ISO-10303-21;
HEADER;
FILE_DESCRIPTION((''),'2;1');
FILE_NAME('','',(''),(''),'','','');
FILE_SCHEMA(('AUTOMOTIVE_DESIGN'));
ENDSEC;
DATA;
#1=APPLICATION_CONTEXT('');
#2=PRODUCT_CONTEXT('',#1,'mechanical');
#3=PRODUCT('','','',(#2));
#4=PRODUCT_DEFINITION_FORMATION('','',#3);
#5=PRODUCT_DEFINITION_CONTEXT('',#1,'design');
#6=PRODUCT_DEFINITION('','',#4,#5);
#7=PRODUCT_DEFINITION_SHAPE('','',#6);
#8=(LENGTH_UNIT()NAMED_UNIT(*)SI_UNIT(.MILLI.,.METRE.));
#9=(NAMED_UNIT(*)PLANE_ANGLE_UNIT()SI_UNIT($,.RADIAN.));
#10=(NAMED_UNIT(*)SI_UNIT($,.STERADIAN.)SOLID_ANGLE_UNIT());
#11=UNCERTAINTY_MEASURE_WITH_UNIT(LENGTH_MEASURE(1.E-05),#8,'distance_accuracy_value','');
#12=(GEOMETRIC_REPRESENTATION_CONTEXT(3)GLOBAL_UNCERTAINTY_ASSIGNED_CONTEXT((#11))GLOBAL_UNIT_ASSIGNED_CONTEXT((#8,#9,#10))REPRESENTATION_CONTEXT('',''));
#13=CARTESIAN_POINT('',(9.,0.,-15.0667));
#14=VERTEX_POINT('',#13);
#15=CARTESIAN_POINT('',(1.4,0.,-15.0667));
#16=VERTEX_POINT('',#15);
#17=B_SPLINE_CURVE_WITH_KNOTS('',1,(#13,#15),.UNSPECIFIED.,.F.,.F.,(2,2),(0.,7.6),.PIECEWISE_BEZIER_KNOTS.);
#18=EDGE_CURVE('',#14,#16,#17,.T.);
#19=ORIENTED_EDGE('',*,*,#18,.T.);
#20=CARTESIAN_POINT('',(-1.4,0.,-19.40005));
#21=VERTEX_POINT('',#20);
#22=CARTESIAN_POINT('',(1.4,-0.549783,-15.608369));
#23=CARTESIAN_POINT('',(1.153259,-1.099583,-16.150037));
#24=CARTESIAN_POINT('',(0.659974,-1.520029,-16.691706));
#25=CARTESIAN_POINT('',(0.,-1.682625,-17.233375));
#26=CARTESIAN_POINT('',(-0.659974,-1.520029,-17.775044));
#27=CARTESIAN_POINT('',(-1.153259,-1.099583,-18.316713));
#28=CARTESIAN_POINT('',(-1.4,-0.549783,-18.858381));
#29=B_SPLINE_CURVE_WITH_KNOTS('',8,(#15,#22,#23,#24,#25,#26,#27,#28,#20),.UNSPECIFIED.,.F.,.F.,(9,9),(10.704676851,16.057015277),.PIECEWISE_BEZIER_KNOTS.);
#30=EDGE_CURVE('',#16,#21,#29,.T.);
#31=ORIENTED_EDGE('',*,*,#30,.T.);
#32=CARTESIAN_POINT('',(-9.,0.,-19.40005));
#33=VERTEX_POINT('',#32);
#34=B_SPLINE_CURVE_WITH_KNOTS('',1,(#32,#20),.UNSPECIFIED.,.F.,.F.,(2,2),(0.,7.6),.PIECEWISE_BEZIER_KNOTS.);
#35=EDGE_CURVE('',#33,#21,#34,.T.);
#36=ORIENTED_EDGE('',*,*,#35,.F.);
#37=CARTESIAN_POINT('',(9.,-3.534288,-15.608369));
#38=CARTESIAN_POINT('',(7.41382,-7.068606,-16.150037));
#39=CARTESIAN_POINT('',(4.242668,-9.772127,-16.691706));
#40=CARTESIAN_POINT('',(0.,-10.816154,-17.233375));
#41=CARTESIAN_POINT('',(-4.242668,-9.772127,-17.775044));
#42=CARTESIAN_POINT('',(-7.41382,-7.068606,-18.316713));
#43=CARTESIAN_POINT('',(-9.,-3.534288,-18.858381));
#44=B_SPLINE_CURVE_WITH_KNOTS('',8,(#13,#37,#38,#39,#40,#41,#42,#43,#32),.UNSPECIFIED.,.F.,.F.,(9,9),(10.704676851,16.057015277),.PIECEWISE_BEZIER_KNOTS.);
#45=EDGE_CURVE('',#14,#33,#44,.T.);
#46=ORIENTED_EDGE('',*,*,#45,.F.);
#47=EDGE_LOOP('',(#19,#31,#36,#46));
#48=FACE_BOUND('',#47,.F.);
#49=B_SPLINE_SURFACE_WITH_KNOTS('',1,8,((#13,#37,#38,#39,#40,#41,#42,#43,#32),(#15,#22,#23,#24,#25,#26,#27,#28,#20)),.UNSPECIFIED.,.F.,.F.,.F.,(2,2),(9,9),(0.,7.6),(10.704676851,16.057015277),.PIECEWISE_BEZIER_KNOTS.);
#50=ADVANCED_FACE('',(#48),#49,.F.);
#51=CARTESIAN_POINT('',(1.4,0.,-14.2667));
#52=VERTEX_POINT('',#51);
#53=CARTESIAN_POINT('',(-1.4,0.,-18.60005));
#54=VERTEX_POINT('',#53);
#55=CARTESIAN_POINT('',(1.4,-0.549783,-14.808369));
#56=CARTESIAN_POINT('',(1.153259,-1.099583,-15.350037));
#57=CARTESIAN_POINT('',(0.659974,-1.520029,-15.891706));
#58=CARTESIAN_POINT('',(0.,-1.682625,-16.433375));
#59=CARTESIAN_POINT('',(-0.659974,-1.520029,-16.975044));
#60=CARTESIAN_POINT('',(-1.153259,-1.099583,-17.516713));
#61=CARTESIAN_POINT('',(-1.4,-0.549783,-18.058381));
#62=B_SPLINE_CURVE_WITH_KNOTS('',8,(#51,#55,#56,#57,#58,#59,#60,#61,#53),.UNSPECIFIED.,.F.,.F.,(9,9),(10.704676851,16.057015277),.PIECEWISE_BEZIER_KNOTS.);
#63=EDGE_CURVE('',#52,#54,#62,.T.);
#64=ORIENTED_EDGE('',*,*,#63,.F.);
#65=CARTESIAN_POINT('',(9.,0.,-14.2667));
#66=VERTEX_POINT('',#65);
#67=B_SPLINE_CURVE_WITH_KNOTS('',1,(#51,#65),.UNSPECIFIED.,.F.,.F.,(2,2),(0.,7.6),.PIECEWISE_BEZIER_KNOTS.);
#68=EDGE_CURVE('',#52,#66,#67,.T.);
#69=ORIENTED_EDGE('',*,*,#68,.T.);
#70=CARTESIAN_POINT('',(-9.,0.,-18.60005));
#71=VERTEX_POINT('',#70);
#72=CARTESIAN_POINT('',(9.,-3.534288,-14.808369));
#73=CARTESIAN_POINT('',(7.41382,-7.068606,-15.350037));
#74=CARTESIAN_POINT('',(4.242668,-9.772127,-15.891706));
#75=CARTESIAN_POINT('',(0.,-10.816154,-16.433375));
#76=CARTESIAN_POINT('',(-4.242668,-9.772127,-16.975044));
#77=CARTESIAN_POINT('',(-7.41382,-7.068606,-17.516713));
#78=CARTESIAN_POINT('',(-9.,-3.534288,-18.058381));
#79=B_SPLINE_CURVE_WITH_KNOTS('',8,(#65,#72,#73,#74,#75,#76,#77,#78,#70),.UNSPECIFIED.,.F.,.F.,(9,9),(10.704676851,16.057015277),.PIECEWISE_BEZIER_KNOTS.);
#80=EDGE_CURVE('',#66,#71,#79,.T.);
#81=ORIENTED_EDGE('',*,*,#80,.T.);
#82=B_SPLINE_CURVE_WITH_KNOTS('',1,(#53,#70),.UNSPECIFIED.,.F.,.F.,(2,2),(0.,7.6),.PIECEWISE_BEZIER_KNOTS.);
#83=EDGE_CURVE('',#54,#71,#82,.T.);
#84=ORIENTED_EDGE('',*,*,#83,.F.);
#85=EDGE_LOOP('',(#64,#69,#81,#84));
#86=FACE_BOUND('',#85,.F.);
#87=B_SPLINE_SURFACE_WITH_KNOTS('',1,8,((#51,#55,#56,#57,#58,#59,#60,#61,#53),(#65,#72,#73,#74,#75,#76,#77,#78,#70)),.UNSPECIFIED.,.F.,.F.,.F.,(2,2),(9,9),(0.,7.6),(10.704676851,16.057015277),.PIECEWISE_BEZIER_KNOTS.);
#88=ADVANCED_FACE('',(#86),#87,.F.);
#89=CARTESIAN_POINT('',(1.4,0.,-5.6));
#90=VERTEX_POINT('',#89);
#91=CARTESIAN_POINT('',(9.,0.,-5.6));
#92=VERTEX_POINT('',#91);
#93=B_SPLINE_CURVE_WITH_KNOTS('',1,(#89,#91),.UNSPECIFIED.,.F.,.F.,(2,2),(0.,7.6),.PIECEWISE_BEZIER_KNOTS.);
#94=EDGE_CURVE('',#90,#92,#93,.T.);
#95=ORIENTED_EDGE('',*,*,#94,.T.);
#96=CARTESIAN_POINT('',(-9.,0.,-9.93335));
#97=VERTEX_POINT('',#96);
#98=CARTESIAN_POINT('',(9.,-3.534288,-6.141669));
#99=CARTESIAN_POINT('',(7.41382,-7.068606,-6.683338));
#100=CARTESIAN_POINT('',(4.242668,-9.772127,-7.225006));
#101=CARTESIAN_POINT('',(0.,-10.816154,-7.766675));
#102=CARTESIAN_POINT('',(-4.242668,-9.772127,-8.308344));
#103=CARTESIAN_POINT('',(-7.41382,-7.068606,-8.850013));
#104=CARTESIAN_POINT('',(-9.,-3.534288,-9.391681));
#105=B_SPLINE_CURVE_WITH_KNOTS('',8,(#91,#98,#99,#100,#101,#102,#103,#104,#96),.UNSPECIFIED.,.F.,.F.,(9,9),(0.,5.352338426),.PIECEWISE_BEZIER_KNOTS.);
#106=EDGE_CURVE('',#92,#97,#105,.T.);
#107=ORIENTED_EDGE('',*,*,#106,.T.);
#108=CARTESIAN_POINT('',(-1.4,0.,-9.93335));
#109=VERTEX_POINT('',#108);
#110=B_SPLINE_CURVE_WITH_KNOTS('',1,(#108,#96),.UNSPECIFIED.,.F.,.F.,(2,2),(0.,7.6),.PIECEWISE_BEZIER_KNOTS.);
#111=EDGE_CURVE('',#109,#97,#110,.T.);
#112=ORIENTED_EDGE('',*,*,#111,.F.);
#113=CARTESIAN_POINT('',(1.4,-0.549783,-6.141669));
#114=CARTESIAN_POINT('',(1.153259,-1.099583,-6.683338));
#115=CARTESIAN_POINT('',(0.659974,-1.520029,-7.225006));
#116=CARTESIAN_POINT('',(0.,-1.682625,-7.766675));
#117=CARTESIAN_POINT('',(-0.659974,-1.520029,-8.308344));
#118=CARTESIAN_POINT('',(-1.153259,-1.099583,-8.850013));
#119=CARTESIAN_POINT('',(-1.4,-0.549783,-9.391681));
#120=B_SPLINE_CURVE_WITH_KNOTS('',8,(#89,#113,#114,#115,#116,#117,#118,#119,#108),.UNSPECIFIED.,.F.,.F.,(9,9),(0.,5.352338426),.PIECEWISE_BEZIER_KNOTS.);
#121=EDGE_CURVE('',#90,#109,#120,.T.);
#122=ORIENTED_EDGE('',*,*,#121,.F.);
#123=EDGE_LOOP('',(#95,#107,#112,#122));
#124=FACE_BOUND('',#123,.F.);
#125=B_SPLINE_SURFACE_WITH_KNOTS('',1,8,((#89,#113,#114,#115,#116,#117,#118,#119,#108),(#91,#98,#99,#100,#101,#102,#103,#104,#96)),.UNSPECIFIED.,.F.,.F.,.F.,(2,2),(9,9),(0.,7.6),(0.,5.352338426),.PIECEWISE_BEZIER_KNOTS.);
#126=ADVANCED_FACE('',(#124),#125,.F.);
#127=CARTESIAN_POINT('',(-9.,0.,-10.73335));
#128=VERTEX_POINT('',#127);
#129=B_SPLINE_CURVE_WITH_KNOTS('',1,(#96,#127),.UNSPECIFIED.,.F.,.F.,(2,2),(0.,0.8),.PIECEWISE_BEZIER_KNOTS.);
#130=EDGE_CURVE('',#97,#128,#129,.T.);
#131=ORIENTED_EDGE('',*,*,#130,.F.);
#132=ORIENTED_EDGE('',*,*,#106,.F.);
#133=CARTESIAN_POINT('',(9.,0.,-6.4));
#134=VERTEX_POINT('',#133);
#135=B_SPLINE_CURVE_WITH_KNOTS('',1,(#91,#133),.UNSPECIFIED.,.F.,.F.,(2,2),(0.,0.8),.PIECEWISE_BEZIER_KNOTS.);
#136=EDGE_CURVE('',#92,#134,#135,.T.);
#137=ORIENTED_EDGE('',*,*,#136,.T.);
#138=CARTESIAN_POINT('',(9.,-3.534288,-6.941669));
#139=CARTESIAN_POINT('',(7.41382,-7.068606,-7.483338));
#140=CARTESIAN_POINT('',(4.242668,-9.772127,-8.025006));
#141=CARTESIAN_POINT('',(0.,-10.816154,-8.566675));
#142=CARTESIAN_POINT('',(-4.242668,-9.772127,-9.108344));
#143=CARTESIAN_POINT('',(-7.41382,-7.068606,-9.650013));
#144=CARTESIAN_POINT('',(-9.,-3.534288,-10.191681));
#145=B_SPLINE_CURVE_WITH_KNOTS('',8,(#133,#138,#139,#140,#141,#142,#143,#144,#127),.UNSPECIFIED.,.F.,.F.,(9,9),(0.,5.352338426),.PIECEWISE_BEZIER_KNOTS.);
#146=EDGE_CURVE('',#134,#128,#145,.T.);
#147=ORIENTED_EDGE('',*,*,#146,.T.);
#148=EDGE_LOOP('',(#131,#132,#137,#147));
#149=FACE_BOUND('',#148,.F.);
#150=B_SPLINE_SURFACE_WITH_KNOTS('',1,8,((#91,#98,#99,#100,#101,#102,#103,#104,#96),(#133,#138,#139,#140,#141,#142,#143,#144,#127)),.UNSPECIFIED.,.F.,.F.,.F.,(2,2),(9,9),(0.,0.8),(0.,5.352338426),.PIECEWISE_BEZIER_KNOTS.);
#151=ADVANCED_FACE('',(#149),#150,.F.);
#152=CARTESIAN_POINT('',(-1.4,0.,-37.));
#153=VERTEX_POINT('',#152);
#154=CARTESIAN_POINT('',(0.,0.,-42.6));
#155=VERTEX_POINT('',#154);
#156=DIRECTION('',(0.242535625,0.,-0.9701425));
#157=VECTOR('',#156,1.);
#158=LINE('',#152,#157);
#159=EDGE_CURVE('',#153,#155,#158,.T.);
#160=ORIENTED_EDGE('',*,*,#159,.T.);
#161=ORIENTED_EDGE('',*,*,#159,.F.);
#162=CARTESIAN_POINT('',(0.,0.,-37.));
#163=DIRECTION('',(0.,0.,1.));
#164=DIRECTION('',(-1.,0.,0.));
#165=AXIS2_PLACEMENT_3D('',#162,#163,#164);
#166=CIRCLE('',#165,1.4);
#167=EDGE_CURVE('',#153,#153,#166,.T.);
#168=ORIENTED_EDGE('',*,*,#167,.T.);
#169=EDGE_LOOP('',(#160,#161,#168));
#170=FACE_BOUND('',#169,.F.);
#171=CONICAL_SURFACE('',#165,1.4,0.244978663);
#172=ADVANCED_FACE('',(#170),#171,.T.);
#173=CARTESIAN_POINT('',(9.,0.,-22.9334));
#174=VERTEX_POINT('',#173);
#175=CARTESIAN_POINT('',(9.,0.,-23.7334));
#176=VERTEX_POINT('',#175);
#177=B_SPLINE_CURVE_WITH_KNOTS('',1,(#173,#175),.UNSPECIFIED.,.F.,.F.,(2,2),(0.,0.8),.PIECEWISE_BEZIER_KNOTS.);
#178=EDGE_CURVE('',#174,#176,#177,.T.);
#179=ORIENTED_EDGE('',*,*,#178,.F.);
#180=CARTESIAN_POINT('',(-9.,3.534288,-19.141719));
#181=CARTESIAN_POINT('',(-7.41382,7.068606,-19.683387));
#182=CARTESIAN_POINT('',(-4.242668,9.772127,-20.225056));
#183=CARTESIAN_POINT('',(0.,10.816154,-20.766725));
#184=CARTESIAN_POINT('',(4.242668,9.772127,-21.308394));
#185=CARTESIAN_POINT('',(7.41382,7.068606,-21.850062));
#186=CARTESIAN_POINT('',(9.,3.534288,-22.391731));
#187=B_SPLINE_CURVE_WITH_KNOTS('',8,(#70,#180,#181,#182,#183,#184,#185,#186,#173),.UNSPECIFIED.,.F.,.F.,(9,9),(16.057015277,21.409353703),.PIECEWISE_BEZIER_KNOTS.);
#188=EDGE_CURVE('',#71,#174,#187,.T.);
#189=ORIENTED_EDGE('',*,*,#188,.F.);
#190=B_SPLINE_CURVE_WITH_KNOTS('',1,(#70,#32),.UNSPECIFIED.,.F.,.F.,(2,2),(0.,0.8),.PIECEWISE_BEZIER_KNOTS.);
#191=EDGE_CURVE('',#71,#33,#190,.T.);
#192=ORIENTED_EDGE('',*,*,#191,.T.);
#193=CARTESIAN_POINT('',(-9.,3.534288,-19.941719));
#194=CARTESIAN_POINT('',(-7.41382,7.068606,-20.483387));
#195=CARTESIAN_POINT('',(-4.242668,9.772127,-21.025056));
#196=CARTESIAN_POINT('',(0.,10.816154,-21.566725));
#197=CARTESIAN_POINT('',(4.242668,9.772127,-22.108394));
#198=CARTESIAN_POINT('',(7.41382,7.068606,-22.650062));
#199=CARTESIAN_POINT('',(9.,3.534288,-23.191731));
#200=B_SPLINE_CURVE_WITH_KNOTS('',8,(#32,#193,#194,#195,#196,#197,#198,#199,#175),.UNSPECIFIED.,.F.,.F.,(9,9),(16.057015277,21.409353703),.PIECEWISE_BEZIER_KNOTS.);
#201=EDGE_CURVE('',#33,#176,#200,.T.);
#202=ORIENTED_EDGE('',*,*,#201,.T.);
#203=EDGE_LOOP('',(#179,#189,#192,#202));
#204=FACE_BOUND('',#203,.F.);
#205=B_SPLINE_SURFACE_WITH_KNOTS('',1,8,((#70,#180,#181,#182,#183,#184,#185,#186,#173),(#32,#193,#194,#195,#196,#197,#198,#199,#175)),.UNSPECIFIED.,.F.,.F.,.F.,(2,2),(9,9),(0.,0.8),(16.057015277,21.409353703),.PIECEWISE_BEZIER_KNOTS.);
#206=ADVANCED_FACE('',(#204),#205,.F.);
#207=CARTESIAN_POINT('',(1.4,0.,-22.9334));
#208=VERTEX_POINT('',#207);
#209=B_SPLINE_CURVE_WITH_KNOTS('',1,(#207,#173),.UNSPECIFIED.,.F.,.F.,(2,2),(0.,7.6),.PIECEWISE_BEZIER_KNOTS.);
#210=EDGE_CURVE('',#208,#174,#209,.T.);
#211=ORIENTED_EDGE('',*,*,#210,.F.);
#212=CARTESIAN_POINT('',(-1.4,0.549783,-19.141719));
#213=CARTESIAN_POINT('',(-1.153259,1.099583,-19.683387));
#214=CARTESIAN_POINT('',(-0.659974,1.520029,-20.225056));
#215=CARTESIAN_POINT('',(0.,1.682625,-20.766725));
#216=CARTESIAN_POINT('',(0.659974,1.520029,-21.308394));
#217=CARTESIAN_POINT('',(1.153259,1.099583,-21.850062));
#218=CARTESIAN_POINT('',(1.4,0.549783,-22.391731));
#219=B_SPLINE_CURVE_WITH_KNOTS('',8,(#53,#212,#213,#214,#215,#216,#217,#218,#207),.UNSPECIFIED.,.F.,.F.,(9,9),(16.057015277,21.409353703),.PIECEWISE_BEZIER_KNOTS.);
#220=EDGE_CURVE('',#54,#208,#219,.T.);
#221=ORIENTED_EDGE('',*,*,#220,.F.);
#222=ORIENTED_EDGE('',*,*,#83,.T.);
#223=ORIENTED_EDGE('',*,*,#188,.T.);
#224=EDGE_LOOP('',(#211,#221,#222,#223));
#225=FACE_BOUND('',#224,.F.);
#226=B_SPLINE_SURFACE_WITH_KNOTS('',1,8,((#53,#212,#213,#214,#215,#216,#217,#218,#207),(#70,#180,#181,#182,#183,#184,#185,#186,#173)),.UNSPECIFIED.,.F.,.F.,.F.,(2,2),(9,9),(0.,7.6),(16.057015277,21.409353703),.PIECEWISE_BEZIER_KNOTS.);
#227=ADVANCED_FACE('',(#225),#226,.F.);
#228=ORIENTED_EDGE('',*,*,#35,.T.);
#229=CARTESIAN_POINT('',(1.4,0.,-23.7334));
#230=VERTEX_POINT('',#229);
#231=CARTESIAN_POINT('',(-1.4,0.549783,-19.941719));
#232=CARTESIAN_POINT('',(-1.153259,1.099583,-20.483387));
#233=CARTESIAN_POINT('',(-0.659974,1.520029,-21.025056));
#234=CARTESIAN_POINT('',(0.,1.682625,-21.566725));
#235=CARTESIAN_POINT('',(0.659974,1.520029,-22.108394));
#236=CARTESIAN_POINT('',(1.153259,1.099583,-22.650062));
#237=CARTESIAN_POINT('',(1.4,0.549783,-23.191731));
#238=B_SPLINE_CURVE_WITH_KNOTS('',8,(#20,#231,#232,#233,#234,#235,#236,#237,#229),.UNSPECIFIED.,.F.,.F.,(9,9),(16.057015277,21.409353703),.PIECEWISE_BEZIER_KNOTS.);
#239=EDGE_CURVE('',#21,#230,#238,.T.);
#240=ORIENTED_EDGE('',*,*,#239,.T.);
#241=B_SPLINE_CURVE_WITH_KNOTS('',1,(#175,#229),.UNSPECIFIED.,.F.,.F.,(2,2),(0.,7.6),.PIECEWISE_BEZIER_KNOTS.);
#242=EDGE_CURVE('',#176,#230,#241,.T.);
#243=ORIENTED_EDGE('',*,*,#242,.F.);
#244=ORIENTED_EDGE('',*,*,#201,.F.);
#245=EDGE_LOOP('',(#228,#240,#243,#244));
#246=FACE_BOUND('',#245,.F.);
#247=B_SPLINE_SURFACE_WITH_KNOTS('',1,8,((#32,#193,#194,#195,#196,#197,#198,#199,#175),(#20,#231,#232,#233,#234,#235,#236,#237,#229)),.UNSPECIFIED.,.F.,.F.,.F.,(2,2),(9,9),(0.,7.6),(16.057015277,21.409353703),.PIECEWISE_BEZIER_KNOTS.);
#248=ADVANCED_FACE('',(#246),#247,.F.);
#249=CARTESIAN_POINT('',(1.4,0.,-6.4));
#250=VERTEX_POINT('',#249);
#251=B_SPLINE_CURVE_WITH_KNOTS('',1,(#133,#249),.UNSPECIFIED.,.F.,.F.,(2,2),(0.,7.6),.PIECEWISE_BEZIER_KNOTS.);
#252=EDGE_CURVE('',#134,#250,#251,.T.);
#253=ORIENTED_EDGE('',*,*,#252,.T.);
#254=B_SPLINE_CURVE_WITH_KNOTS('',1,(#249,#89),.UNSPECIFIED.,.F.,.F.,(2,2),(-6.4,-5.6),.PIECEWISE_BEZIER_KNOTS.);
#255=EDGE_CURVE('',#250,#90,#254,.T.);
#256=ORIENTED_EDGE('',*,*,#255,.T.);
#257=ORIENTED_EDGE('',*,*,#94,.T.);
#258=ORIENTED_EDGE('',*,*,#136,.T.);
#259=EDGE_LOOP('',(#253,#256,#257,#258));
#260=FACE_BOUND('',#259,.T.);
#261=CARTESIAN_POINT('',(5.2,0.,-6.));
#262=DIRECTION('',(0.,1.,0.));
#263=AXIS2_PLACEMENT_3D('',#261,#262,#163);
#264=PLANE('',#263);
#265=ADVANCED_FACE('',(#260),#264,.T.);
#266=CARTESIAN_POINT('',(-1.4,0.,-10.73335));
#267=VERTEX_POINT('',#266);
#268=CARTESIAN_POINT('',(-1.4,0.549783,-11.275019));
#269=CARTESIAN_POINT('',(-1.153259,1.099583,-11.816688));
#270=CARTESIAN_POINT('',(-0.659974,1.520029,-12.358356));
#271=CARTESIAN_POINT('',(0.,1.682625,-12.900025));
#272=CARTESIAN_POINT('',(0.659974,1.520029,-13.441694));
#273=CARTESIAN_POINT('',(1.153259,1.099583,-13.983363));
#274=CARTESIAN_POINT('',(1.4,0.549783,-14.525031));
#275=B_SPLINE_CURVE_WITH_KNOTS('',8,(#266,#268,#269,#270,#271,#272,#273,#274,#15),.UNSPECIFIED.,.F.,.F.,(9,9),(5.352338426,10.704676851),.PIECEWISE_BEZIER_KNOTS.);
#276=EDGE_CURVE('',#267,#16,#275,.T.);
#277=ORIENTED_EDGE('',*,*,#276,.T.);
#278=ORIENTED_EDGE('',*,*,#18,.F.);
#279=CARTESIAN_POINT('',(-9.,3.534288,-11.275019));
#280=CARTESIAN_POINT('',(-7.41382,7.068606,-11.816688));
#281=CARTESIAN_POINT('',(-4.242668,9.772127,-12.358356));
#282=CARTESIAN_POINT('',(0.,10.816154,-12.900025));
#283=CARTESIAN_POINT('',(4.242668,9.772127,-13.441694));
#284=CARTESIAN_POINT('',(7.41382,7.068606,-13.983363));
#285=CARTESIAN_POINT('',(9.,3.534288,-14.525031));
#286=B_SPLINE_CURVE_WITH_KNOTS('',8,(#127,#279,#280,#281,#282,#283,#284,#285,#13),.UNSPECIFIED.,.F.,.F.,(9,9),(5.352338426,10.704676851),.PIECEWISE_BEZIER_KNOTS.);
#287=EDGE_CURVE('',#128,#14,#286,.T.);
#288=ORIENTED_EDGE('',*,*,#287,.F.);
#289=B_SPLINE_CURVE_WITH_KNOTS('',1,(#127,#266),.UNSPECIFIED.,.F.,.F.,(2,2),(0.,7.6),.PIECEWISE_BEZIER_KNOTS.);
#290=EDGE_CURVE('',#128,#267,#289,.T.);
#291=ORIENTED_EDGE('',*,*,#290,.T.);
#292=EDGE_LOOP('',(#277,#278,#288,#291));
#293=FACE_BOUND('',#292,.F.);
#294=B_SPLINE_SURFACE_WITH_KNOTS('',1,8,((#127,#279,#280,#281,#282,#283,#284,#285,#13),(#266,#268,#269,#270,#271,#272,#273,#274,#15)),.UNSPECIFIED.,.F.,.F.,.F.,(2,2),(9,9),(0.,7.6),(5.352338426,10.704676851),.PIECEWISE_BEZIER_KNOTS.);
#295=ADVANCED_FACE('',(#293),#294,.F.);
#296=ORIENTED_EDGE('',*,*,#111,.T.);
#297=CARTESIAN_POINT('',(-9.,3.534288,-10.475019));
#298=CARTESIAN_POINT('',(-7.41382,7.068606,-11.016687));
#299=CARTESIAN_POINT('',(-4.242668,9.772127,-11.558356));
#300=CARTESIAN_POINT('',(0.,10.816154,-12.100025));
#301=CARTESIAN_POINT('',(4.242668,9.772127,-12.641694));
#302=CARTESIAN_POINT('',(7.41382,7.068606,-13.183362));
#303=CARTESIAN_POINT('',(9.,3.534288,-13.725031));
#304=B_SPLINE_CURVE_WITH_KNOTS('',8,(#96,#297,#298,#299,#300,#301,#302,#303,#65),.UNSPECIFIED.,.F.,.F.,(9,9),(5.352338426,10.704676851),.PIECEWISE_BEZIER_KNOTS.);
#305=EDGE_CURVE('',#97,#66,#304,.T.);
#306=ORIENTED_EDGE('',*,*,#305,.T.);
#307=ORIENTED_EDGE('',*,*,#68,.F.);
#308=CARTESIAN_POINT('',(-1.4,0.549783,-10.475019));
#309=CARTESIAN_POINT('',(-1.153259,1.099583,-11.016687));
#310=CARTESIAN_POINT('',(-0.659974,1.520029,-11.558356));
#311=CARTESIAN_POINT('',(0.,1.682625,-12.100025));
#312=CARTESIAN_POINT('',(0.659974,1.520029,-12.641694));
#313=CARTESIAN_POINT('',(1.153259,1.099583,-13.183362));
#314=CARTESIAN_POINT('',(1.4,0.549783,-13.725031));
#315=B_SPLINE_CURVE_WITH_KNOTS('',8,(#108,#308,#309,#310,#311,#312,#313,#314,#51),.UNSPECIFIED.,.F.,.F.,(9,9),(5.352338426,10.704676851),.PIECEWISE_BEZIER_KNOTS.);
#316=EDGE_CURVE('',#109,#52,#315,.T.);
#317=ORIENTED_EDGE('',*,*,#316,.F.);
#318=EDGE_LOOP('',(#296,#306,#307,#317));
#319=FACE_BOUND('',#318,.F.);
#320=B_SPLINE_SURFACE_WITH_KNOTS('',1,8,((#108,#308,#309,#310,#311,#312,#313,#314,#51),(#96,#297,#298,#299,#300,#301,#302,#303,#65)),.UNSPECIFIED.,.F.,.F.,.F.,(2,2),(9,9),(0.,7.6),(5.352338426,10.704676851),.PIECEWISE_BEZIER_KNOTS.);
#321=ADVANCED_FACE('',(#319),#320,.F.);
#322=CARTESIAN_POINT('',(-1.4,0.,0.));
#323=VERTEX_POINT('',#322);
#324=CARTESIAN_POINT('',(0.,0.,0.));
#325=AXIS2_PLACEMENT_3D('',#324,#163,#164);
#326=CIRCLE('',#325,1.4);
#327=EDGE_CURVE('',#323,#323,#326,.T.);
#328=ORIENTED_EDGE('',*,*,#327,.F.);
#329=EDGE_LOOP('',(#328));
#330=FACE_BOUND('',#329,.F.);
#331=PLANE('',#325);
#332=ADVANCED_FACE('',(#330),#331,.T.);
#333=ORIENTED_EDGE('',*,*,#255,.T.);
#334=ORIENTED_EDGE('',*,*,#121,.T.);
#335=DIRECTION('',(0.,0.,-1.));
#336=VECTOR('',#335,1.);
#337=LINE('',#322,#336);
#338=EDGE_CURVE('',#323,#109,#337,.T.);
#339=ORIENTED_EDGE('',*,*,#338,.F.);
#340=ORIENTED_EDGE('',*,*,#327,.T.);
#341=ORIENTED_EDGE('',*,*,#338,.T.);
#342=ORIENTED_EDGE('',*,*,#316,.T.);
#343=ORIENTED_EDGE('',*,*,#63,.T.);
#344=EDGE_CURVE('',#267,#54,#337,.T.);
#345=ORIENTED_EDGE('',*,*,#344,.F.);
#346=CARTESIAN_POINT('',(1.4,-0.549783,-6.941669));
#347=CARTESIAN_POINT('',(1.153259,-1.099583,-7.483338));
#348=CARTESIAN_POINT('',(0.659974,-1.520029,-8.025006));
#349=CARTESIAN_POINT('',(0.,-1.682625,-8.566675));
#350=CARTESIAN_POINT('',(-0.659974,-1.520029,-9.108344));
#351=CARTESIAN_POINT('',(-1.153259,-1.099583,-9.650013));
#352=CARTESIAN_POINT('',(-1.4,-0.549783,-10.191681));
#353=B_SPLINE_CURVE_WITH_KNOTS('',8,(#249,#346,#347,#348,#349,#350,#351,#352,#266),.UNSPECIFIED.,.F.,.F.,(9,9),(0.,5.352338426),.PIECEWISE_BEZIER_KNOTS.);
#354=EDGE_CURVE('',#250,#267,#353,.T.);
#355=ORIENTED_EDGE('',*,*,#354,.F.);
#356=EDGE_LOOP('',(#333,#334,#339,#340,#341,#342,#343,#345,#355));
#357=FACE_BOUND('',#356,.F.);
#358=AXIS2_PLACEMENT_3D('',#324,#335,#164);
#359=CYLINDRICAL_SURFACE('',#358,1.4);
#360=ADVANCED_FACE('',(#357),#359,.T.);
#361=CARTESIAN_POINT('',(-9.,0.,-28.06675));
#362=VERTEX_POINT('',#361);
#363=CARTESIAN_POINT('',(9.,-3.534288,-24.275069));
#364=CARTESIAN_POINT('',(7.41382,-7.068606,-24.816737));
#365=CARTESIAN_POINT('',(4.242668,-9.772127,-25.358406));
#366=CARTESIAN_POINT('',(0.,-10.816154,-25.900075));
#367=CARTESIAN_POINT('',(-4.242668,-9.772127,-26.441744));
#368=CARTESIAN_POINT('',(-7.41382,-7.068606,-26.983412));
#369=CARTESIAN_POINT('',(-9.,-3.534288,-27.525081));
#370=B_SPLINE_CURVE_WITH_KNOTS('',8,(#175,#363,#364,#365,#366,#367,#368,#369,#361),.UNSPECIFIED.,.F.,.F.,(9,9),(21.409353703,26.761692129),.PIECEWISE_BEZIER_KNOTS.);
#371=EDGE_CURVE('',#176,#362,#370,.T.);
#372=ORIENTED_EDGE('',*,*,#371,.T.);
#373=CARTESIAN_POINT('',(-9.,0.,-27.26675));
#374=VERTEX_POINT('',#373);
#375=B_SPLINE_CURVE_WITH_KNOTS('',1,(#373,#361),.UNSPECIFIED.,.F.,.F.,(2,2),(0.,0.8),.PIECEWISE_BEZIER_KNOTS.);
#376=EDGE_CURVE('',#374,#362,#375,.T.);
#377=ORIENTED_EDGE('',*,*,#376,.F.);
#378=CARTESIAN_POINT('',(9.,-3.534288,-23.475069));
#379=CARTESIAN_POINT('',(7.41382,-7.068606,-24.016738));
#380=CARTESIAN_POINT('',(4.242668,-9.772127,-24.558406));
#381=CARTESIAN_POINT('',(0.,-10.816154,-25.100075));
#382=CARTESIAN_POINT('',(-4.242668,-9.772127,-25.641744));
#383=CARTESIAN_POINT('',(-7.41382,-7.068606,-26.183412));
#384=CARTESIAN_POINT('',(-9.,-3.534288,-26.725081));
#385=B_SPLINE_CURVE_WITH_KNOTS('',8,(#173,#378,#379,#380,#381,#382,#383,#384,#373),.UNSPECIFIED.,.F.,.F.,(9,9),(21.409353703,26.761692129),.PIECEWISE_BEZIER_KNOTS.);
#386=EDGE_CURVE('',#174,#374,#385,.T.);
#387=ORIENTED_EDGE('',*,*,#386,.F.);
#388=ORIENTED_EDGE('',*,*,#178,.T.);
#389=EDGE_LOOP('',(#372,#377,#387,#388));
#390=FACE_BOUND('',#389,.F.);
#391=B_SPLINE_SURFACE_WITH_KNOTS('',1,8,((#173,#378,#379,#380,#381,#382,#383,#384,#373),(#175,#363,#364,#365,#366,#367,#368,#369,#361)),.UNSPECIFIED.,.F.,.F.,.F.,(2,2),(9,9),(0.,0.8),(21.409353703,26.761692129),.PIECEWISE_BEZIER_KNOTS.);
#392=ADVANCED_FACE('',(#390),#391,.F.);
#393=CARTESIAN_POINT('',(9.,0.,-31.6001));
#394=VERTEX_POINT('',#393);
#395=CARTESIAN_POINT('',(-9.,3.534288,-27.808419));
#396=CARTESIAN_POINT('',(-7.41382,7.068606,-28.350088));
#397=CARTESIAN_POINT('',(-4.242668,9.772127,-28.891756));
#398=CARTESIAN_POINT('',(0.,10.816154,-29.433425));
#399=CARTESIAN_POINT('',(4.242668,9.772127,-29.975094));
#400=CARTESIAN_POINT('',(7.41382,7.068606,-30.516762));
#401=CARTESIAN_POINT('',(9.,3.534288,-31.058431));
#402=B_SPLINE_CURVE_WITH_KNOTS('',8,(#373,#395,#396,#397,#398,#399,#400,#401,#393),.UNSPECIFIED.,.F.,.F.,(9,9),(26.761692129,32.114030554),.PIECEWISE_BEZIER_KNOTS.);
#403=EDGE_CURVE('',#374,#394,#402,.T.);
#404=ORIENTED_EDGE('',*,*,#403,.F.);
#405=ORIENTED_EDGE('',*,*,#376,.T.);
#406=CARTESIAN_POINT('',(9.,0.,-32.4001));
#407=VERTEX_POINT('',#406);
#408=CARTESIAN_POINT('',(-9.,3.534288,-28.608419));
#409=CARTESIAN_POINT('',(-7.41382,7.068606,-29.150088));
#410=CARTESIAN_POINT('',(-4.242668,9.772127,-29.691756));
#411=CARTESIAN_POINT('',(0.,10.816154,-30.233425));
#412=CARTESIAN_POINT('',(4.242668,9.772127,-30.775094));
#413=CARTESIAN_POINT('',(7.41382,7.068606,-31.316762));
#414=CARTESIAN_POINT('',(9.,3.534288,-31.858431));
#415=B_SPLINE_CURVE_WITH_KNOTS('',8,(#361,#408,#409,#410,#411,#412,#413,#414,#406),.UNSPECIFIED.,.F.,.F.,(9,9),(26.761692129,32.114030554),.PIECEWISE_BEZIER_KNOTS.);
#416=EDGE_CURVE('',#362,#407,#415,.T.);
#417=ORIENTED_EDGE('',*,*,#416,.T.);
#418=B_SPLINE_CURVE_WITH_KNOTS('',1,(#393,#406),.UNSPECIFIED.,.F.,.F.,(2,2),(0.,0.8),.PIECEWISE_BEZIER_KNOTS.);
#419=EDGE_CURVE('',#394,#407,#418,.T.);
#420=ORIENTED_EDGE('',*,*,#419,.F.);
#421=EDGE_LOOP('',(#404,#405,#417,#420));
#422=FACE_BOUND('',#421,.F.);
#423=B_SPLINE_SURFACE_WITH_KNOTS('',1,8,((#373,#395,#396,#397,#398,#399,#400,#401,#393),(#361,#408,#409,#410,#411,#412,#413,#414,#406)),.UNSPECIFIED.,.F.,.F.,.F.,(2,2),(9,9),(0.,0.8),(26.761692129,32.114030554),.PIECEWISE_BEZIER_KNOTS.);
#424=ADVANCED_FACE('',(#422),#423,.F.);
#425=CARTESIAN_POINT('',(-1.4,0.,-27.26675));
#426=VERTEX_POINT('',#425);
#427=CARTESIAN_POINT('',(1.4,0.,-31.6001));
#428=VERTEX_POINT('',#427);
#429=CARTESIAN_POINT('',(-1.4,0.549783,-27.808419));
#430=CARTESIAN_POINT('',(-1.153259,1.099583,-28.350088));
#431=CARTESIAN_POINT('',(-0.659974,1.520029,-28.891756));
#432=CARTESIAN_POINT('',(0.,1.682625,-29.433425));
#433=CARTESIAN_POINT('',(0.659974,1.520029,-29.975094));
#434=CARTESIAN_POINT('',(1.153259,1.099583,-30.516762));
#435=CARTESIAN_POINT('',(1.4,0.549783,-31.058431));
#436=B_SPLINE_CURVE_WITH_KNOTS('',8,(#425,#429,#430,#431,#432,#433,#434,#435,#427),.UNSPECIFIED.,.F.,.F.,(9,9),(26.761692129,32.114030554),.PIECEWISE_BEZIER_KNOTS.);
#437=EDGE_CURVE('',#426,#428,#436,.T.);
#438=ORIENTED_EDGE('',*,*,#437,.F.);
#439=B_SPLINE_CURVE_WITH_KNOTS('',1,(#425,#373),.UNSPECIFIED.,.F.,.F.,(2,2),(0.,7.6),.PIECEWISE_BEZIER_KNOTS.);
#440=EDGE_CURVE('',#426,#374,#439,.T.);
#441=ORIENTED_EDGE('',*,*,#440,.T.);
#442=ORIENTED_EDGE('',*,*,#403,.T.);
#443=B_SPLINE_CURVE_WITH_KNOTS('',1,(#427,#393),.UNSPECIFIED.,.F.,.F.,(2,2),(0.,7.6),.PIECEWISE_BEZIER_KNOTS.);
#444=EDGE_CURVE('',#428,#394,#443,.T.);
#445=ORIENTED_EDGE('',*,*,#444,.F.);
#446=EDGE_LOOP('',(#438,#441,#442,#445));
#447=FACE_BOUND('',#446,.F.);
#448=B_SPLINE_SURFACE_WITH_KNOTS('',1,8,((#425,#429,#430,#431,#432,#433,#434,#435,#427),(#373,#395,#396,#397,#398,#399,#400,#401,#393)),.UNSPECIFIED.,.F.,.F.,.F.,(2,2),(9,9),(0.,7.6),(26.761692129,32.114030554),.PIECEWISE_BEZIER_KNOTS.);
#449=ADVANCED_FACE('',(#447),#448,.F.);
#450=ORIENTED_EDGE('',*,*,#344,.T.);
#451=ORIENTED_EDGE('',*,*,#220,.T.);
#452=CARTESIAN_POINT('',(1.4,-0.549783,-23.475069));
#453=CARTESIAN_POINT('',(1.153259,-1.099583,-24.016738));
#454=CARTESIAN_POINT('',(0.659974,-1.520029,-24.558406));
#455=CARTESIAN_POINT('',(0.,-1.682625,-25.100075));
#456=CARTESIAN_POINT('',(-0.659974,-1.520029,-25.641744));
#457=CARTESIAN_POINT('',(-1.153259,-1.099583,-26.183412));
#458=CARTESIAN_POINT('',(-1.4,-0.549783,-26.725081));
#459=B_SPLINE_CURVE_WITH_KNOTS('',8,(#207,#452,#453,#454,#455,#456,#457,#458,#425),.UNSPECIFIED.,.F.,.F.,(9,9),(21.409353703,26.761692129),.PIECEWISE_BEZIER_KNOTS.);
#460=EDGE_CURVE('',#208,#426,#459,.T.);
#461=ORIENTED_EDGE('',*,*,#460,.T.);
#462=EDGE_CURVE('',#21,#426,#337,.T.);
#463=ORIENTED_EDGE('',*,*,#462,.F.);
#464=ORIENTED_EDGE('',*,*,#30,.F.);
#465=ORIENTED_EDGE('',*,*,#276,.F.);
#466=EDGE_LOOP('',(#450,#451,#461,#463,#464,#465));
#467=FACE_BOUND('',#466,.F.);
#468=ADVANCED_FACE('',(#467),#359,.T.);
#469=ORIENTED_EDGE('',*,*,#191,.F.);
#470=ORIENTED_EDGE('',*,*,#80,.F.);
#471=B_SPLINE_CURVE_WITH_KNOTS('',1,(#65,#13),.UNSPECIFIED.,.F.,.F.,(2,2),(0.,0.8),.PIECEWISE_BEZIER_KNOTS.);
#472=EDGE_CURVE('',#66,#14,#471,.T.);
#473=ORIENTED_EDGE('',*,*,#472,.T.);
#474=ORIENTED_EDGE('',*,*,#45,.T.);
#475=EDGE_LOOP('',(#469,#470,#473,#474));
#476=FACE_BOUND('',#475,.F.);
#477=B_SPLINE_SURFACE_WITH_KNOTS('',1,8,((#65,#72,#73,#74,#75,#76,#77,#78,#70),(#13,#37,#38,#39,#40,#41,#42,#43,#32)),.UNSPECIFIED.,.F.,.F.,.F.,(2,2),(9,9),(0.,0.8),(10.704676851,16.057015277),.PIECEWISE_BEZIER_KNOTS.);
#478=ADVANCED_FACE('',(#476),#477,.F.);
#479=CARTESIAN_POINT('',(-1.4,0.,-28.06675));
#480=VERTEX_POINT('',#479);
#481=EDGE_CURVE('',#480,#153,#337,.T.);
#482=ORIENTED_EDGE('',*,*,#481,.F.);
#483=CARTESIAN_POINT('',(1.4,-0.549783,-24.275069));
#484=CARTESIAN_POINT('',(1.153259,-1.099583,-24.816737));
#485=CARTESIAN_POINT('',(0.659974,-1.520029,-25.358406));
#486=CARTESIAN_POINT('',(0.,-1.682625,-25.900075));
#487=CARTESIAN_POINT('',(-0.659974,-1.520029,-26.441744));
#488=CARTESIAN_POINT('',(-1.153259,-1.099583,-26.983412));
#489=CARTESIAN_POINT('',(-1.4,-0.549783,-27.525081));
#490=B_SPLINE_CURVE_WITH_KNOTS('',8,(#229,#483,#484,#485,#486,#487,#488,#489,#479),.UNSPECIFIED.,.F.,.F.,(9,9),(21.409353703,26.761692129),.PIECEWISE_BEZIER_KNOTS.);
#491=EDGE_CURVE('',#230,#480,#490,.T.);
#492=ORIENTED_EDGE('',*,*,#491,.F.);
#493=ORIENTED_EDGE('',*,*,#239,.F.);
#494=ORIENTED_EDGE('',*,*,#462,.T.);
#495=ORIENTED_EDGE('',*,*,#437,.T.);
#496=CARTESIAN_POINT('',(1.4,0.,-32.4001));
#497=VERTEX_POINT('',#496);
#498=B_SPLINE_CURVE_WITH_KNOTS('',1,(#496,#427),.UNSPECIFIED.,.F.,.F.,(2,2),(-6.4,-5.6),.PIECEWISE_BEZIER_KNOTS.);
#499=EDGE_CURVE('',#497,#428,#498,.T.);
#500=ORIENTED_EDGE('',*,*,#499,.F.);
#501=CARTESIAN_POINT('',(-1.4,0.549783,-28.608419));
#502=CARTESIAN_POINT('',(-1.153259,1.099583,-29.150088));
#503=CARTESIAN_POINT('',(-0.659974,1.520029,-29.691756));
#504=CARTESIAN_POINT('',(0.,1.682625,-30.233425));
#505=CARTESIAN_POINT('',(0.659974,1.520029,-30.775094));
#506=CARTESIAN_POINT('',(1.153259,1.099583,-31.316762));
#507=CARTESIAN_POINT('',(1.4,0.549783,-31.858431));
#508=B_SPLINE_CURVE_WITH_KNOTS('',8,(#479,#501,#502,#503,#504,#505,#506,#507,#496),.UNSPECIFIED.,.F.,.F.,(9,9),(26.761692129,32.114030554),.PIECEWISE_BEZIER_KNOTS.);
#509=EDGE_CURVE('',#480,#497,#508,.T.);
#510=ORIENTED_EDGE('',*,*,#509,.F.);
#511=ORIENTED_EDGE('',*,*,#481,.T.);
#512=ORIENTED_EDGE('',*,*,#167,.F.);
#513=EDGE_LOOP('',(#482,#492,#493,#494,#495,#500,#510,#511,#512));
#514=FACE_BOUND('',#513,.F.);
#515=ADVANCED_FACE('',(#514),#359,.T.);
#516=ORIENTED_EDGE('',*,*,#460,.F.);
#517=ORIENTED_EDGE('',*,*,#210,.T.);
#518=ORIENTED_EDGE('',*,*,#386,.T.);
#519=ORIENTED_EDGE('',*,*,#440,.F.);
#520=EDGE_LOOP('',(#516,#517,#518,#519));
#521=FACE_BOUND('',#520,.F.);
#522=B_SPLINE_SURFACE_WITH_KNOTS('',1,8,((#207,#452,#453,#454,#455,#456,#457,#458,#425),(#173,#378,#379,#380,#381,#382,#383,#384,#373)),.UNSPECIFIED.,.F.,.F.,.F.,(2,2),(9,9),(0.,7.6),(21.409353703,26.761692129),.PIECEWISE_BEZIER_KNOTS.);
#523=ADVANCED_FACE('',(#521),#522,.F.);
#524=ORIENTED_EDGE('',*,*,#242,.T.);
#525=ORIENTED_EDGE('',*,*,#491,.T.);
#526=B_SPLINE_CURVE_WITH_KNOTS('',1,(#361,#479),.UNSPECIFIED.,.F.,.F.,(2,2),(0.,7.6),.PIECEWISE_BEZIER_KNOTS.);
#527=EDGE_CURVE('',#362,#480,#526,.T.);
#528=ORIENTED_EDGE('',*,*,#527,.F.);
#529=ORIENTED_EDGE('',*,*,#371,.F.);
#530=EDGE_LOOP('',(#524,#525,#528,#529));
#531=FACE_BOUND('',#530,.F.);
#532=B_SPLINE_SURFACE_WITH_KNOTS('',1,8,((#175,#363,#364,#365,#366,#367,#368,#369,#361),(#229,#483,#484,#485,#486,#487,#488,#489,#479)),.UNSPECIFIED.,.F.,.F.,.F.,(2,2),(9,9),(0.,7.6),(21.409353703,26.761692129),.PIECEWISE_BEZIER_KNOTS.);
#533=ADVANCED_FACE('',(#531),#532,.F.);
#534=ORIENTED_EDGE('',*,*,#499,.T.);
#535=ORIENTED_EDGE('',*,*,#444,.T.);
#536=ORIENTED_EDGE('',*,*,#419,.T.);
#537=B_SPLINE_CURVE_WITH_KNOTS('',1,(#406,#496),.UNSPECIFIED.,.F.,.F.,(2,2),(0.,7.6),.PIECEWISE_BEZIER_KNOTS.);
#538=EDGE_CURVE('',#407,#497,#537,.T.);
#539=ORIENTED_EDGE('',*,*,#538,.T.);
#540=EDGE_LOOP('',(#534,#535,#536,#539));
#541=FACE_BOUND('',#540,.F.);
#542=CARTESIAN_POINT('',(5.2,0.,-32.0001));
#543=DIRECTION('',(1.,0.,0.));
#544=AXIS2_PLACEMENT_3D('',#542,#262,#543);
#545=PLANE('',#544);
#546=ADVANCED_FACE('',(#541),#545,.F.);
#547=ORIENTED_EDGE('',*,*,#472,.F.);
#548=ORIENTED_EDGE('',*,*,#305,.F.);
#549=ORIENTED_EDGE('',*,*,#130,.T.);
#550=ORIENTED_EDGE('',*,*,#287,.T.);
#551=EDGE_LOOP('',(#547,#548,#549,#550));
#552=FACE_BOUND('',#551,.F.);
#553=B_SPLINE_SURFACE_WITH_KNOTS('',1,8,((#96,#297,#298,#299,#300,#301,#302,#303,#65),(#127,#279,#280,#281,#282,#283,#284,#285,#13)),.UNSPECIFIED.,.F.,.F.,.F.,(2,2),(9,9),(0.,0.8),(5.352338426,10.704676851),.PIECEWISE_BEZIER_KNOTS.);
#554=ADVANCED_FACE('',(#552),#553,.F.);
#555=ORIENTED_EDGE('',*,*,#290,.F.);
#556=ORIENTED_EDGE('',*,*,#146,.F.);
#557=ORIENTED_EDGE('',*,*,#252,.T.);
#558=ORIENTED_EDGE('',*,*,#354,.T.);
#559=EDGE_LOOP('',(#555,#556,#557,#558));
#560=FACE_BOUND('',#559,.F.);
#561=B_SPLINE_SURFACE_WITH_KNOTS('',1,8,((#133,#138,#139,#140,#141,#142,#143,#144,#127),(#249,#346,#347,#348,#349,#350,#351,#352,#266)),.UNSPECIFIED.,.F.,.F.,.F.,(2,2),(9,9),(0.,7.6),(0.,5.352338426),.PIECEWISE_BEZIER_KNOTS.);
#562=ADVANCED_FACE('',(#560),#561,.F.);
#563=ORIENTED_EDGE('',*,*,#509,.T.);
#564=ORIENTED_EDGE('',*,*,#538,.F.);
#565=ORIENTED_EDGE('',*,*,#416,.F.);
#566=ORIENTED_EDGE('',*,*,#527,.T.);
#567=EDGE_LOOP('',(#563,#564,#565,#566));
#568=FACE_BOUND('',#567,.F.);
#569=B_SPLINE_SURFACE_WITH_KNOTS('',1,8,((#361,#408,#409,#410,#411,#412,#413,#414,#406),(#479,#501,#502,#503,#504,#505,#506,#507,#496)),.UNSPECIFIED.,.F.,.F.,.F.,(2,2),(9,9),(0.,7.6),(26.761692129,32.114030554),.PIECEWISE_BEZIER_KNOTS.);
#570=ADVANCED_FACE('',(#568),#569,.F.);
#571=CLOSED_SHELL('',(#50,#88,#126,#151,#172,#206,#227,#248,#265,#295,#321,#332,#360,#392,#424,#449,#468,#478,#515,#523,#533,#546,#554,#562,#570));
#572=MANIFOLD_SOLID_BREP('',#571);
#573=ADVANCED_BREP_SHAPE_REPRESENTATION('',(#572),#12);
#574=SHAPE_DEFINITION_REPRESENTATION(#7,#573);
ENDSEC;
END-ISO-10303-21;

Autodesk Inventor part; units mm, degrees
ref_plane "YZ Plane" through (0, 0, 0) normal (1, 0, 0) x (0, 1, 0)
ref_plane "XZ Plane" through (0, 0, 0) normal (0, 1, 0) x (-1, 0, 0)
ref_plane "XY Plane" through (0, 0, 0) normal (0, 0, 1) x (1, 0, 0)
sketch "Boceto1" plane through (0, 0, 0) normal (0, 1, 0) x (-1, 0, 0)
  line L0 (0, 0) -> (1.4, 0)
  line L1 (1.4, 0) -> (1.4, -37)
  line L2 (1.4, -37) -> (0, -42.6)
  line L3 (0, -42.6) -> (0, 0)
  dimension "d0" = 1.4
  dimension "d1" = 5.6
  dimension "d2" = 42.6
revolve "Revolución1" add sketch "Boceto1" angle 360 about axis through (0, 0, -42.6) along (0, 0, 1)
sketch "Boceto2" plane through (0, 0, 0) normal (0, 1, 0) x (-1, 0, 0)
  line L0 (-1.4, 0) -> (-1.4, -37) projected
  line L1 (-1.4, -5.6) -> (-9, -5.6)
  line L2 (-9, -5.6) -> (-9, -6.4)
  line L3 (-9, -6.4) -> (-1.4, -6.4)
  line L4 (-1.4, -5.6) -> (-1.4, -6.4)
  line L5 (-1.4, 0) -> (1.4, 0) projected
  line L6 (0, 0) -> (0, -42.6)
  line L7 (1.4, -37) -> (0, -42.6) projected
  dimension "d4" = 0.8
  dimension "d5" = 7.6
  dimension "d6" = 5.6
coil "Bobina1" sketch "Boceto2" operation add axis through (0, 0, 0) along (0, 0, -1) pitch 8.6667 turns 3 hand right
properties part number "Pieza de practica 8"
